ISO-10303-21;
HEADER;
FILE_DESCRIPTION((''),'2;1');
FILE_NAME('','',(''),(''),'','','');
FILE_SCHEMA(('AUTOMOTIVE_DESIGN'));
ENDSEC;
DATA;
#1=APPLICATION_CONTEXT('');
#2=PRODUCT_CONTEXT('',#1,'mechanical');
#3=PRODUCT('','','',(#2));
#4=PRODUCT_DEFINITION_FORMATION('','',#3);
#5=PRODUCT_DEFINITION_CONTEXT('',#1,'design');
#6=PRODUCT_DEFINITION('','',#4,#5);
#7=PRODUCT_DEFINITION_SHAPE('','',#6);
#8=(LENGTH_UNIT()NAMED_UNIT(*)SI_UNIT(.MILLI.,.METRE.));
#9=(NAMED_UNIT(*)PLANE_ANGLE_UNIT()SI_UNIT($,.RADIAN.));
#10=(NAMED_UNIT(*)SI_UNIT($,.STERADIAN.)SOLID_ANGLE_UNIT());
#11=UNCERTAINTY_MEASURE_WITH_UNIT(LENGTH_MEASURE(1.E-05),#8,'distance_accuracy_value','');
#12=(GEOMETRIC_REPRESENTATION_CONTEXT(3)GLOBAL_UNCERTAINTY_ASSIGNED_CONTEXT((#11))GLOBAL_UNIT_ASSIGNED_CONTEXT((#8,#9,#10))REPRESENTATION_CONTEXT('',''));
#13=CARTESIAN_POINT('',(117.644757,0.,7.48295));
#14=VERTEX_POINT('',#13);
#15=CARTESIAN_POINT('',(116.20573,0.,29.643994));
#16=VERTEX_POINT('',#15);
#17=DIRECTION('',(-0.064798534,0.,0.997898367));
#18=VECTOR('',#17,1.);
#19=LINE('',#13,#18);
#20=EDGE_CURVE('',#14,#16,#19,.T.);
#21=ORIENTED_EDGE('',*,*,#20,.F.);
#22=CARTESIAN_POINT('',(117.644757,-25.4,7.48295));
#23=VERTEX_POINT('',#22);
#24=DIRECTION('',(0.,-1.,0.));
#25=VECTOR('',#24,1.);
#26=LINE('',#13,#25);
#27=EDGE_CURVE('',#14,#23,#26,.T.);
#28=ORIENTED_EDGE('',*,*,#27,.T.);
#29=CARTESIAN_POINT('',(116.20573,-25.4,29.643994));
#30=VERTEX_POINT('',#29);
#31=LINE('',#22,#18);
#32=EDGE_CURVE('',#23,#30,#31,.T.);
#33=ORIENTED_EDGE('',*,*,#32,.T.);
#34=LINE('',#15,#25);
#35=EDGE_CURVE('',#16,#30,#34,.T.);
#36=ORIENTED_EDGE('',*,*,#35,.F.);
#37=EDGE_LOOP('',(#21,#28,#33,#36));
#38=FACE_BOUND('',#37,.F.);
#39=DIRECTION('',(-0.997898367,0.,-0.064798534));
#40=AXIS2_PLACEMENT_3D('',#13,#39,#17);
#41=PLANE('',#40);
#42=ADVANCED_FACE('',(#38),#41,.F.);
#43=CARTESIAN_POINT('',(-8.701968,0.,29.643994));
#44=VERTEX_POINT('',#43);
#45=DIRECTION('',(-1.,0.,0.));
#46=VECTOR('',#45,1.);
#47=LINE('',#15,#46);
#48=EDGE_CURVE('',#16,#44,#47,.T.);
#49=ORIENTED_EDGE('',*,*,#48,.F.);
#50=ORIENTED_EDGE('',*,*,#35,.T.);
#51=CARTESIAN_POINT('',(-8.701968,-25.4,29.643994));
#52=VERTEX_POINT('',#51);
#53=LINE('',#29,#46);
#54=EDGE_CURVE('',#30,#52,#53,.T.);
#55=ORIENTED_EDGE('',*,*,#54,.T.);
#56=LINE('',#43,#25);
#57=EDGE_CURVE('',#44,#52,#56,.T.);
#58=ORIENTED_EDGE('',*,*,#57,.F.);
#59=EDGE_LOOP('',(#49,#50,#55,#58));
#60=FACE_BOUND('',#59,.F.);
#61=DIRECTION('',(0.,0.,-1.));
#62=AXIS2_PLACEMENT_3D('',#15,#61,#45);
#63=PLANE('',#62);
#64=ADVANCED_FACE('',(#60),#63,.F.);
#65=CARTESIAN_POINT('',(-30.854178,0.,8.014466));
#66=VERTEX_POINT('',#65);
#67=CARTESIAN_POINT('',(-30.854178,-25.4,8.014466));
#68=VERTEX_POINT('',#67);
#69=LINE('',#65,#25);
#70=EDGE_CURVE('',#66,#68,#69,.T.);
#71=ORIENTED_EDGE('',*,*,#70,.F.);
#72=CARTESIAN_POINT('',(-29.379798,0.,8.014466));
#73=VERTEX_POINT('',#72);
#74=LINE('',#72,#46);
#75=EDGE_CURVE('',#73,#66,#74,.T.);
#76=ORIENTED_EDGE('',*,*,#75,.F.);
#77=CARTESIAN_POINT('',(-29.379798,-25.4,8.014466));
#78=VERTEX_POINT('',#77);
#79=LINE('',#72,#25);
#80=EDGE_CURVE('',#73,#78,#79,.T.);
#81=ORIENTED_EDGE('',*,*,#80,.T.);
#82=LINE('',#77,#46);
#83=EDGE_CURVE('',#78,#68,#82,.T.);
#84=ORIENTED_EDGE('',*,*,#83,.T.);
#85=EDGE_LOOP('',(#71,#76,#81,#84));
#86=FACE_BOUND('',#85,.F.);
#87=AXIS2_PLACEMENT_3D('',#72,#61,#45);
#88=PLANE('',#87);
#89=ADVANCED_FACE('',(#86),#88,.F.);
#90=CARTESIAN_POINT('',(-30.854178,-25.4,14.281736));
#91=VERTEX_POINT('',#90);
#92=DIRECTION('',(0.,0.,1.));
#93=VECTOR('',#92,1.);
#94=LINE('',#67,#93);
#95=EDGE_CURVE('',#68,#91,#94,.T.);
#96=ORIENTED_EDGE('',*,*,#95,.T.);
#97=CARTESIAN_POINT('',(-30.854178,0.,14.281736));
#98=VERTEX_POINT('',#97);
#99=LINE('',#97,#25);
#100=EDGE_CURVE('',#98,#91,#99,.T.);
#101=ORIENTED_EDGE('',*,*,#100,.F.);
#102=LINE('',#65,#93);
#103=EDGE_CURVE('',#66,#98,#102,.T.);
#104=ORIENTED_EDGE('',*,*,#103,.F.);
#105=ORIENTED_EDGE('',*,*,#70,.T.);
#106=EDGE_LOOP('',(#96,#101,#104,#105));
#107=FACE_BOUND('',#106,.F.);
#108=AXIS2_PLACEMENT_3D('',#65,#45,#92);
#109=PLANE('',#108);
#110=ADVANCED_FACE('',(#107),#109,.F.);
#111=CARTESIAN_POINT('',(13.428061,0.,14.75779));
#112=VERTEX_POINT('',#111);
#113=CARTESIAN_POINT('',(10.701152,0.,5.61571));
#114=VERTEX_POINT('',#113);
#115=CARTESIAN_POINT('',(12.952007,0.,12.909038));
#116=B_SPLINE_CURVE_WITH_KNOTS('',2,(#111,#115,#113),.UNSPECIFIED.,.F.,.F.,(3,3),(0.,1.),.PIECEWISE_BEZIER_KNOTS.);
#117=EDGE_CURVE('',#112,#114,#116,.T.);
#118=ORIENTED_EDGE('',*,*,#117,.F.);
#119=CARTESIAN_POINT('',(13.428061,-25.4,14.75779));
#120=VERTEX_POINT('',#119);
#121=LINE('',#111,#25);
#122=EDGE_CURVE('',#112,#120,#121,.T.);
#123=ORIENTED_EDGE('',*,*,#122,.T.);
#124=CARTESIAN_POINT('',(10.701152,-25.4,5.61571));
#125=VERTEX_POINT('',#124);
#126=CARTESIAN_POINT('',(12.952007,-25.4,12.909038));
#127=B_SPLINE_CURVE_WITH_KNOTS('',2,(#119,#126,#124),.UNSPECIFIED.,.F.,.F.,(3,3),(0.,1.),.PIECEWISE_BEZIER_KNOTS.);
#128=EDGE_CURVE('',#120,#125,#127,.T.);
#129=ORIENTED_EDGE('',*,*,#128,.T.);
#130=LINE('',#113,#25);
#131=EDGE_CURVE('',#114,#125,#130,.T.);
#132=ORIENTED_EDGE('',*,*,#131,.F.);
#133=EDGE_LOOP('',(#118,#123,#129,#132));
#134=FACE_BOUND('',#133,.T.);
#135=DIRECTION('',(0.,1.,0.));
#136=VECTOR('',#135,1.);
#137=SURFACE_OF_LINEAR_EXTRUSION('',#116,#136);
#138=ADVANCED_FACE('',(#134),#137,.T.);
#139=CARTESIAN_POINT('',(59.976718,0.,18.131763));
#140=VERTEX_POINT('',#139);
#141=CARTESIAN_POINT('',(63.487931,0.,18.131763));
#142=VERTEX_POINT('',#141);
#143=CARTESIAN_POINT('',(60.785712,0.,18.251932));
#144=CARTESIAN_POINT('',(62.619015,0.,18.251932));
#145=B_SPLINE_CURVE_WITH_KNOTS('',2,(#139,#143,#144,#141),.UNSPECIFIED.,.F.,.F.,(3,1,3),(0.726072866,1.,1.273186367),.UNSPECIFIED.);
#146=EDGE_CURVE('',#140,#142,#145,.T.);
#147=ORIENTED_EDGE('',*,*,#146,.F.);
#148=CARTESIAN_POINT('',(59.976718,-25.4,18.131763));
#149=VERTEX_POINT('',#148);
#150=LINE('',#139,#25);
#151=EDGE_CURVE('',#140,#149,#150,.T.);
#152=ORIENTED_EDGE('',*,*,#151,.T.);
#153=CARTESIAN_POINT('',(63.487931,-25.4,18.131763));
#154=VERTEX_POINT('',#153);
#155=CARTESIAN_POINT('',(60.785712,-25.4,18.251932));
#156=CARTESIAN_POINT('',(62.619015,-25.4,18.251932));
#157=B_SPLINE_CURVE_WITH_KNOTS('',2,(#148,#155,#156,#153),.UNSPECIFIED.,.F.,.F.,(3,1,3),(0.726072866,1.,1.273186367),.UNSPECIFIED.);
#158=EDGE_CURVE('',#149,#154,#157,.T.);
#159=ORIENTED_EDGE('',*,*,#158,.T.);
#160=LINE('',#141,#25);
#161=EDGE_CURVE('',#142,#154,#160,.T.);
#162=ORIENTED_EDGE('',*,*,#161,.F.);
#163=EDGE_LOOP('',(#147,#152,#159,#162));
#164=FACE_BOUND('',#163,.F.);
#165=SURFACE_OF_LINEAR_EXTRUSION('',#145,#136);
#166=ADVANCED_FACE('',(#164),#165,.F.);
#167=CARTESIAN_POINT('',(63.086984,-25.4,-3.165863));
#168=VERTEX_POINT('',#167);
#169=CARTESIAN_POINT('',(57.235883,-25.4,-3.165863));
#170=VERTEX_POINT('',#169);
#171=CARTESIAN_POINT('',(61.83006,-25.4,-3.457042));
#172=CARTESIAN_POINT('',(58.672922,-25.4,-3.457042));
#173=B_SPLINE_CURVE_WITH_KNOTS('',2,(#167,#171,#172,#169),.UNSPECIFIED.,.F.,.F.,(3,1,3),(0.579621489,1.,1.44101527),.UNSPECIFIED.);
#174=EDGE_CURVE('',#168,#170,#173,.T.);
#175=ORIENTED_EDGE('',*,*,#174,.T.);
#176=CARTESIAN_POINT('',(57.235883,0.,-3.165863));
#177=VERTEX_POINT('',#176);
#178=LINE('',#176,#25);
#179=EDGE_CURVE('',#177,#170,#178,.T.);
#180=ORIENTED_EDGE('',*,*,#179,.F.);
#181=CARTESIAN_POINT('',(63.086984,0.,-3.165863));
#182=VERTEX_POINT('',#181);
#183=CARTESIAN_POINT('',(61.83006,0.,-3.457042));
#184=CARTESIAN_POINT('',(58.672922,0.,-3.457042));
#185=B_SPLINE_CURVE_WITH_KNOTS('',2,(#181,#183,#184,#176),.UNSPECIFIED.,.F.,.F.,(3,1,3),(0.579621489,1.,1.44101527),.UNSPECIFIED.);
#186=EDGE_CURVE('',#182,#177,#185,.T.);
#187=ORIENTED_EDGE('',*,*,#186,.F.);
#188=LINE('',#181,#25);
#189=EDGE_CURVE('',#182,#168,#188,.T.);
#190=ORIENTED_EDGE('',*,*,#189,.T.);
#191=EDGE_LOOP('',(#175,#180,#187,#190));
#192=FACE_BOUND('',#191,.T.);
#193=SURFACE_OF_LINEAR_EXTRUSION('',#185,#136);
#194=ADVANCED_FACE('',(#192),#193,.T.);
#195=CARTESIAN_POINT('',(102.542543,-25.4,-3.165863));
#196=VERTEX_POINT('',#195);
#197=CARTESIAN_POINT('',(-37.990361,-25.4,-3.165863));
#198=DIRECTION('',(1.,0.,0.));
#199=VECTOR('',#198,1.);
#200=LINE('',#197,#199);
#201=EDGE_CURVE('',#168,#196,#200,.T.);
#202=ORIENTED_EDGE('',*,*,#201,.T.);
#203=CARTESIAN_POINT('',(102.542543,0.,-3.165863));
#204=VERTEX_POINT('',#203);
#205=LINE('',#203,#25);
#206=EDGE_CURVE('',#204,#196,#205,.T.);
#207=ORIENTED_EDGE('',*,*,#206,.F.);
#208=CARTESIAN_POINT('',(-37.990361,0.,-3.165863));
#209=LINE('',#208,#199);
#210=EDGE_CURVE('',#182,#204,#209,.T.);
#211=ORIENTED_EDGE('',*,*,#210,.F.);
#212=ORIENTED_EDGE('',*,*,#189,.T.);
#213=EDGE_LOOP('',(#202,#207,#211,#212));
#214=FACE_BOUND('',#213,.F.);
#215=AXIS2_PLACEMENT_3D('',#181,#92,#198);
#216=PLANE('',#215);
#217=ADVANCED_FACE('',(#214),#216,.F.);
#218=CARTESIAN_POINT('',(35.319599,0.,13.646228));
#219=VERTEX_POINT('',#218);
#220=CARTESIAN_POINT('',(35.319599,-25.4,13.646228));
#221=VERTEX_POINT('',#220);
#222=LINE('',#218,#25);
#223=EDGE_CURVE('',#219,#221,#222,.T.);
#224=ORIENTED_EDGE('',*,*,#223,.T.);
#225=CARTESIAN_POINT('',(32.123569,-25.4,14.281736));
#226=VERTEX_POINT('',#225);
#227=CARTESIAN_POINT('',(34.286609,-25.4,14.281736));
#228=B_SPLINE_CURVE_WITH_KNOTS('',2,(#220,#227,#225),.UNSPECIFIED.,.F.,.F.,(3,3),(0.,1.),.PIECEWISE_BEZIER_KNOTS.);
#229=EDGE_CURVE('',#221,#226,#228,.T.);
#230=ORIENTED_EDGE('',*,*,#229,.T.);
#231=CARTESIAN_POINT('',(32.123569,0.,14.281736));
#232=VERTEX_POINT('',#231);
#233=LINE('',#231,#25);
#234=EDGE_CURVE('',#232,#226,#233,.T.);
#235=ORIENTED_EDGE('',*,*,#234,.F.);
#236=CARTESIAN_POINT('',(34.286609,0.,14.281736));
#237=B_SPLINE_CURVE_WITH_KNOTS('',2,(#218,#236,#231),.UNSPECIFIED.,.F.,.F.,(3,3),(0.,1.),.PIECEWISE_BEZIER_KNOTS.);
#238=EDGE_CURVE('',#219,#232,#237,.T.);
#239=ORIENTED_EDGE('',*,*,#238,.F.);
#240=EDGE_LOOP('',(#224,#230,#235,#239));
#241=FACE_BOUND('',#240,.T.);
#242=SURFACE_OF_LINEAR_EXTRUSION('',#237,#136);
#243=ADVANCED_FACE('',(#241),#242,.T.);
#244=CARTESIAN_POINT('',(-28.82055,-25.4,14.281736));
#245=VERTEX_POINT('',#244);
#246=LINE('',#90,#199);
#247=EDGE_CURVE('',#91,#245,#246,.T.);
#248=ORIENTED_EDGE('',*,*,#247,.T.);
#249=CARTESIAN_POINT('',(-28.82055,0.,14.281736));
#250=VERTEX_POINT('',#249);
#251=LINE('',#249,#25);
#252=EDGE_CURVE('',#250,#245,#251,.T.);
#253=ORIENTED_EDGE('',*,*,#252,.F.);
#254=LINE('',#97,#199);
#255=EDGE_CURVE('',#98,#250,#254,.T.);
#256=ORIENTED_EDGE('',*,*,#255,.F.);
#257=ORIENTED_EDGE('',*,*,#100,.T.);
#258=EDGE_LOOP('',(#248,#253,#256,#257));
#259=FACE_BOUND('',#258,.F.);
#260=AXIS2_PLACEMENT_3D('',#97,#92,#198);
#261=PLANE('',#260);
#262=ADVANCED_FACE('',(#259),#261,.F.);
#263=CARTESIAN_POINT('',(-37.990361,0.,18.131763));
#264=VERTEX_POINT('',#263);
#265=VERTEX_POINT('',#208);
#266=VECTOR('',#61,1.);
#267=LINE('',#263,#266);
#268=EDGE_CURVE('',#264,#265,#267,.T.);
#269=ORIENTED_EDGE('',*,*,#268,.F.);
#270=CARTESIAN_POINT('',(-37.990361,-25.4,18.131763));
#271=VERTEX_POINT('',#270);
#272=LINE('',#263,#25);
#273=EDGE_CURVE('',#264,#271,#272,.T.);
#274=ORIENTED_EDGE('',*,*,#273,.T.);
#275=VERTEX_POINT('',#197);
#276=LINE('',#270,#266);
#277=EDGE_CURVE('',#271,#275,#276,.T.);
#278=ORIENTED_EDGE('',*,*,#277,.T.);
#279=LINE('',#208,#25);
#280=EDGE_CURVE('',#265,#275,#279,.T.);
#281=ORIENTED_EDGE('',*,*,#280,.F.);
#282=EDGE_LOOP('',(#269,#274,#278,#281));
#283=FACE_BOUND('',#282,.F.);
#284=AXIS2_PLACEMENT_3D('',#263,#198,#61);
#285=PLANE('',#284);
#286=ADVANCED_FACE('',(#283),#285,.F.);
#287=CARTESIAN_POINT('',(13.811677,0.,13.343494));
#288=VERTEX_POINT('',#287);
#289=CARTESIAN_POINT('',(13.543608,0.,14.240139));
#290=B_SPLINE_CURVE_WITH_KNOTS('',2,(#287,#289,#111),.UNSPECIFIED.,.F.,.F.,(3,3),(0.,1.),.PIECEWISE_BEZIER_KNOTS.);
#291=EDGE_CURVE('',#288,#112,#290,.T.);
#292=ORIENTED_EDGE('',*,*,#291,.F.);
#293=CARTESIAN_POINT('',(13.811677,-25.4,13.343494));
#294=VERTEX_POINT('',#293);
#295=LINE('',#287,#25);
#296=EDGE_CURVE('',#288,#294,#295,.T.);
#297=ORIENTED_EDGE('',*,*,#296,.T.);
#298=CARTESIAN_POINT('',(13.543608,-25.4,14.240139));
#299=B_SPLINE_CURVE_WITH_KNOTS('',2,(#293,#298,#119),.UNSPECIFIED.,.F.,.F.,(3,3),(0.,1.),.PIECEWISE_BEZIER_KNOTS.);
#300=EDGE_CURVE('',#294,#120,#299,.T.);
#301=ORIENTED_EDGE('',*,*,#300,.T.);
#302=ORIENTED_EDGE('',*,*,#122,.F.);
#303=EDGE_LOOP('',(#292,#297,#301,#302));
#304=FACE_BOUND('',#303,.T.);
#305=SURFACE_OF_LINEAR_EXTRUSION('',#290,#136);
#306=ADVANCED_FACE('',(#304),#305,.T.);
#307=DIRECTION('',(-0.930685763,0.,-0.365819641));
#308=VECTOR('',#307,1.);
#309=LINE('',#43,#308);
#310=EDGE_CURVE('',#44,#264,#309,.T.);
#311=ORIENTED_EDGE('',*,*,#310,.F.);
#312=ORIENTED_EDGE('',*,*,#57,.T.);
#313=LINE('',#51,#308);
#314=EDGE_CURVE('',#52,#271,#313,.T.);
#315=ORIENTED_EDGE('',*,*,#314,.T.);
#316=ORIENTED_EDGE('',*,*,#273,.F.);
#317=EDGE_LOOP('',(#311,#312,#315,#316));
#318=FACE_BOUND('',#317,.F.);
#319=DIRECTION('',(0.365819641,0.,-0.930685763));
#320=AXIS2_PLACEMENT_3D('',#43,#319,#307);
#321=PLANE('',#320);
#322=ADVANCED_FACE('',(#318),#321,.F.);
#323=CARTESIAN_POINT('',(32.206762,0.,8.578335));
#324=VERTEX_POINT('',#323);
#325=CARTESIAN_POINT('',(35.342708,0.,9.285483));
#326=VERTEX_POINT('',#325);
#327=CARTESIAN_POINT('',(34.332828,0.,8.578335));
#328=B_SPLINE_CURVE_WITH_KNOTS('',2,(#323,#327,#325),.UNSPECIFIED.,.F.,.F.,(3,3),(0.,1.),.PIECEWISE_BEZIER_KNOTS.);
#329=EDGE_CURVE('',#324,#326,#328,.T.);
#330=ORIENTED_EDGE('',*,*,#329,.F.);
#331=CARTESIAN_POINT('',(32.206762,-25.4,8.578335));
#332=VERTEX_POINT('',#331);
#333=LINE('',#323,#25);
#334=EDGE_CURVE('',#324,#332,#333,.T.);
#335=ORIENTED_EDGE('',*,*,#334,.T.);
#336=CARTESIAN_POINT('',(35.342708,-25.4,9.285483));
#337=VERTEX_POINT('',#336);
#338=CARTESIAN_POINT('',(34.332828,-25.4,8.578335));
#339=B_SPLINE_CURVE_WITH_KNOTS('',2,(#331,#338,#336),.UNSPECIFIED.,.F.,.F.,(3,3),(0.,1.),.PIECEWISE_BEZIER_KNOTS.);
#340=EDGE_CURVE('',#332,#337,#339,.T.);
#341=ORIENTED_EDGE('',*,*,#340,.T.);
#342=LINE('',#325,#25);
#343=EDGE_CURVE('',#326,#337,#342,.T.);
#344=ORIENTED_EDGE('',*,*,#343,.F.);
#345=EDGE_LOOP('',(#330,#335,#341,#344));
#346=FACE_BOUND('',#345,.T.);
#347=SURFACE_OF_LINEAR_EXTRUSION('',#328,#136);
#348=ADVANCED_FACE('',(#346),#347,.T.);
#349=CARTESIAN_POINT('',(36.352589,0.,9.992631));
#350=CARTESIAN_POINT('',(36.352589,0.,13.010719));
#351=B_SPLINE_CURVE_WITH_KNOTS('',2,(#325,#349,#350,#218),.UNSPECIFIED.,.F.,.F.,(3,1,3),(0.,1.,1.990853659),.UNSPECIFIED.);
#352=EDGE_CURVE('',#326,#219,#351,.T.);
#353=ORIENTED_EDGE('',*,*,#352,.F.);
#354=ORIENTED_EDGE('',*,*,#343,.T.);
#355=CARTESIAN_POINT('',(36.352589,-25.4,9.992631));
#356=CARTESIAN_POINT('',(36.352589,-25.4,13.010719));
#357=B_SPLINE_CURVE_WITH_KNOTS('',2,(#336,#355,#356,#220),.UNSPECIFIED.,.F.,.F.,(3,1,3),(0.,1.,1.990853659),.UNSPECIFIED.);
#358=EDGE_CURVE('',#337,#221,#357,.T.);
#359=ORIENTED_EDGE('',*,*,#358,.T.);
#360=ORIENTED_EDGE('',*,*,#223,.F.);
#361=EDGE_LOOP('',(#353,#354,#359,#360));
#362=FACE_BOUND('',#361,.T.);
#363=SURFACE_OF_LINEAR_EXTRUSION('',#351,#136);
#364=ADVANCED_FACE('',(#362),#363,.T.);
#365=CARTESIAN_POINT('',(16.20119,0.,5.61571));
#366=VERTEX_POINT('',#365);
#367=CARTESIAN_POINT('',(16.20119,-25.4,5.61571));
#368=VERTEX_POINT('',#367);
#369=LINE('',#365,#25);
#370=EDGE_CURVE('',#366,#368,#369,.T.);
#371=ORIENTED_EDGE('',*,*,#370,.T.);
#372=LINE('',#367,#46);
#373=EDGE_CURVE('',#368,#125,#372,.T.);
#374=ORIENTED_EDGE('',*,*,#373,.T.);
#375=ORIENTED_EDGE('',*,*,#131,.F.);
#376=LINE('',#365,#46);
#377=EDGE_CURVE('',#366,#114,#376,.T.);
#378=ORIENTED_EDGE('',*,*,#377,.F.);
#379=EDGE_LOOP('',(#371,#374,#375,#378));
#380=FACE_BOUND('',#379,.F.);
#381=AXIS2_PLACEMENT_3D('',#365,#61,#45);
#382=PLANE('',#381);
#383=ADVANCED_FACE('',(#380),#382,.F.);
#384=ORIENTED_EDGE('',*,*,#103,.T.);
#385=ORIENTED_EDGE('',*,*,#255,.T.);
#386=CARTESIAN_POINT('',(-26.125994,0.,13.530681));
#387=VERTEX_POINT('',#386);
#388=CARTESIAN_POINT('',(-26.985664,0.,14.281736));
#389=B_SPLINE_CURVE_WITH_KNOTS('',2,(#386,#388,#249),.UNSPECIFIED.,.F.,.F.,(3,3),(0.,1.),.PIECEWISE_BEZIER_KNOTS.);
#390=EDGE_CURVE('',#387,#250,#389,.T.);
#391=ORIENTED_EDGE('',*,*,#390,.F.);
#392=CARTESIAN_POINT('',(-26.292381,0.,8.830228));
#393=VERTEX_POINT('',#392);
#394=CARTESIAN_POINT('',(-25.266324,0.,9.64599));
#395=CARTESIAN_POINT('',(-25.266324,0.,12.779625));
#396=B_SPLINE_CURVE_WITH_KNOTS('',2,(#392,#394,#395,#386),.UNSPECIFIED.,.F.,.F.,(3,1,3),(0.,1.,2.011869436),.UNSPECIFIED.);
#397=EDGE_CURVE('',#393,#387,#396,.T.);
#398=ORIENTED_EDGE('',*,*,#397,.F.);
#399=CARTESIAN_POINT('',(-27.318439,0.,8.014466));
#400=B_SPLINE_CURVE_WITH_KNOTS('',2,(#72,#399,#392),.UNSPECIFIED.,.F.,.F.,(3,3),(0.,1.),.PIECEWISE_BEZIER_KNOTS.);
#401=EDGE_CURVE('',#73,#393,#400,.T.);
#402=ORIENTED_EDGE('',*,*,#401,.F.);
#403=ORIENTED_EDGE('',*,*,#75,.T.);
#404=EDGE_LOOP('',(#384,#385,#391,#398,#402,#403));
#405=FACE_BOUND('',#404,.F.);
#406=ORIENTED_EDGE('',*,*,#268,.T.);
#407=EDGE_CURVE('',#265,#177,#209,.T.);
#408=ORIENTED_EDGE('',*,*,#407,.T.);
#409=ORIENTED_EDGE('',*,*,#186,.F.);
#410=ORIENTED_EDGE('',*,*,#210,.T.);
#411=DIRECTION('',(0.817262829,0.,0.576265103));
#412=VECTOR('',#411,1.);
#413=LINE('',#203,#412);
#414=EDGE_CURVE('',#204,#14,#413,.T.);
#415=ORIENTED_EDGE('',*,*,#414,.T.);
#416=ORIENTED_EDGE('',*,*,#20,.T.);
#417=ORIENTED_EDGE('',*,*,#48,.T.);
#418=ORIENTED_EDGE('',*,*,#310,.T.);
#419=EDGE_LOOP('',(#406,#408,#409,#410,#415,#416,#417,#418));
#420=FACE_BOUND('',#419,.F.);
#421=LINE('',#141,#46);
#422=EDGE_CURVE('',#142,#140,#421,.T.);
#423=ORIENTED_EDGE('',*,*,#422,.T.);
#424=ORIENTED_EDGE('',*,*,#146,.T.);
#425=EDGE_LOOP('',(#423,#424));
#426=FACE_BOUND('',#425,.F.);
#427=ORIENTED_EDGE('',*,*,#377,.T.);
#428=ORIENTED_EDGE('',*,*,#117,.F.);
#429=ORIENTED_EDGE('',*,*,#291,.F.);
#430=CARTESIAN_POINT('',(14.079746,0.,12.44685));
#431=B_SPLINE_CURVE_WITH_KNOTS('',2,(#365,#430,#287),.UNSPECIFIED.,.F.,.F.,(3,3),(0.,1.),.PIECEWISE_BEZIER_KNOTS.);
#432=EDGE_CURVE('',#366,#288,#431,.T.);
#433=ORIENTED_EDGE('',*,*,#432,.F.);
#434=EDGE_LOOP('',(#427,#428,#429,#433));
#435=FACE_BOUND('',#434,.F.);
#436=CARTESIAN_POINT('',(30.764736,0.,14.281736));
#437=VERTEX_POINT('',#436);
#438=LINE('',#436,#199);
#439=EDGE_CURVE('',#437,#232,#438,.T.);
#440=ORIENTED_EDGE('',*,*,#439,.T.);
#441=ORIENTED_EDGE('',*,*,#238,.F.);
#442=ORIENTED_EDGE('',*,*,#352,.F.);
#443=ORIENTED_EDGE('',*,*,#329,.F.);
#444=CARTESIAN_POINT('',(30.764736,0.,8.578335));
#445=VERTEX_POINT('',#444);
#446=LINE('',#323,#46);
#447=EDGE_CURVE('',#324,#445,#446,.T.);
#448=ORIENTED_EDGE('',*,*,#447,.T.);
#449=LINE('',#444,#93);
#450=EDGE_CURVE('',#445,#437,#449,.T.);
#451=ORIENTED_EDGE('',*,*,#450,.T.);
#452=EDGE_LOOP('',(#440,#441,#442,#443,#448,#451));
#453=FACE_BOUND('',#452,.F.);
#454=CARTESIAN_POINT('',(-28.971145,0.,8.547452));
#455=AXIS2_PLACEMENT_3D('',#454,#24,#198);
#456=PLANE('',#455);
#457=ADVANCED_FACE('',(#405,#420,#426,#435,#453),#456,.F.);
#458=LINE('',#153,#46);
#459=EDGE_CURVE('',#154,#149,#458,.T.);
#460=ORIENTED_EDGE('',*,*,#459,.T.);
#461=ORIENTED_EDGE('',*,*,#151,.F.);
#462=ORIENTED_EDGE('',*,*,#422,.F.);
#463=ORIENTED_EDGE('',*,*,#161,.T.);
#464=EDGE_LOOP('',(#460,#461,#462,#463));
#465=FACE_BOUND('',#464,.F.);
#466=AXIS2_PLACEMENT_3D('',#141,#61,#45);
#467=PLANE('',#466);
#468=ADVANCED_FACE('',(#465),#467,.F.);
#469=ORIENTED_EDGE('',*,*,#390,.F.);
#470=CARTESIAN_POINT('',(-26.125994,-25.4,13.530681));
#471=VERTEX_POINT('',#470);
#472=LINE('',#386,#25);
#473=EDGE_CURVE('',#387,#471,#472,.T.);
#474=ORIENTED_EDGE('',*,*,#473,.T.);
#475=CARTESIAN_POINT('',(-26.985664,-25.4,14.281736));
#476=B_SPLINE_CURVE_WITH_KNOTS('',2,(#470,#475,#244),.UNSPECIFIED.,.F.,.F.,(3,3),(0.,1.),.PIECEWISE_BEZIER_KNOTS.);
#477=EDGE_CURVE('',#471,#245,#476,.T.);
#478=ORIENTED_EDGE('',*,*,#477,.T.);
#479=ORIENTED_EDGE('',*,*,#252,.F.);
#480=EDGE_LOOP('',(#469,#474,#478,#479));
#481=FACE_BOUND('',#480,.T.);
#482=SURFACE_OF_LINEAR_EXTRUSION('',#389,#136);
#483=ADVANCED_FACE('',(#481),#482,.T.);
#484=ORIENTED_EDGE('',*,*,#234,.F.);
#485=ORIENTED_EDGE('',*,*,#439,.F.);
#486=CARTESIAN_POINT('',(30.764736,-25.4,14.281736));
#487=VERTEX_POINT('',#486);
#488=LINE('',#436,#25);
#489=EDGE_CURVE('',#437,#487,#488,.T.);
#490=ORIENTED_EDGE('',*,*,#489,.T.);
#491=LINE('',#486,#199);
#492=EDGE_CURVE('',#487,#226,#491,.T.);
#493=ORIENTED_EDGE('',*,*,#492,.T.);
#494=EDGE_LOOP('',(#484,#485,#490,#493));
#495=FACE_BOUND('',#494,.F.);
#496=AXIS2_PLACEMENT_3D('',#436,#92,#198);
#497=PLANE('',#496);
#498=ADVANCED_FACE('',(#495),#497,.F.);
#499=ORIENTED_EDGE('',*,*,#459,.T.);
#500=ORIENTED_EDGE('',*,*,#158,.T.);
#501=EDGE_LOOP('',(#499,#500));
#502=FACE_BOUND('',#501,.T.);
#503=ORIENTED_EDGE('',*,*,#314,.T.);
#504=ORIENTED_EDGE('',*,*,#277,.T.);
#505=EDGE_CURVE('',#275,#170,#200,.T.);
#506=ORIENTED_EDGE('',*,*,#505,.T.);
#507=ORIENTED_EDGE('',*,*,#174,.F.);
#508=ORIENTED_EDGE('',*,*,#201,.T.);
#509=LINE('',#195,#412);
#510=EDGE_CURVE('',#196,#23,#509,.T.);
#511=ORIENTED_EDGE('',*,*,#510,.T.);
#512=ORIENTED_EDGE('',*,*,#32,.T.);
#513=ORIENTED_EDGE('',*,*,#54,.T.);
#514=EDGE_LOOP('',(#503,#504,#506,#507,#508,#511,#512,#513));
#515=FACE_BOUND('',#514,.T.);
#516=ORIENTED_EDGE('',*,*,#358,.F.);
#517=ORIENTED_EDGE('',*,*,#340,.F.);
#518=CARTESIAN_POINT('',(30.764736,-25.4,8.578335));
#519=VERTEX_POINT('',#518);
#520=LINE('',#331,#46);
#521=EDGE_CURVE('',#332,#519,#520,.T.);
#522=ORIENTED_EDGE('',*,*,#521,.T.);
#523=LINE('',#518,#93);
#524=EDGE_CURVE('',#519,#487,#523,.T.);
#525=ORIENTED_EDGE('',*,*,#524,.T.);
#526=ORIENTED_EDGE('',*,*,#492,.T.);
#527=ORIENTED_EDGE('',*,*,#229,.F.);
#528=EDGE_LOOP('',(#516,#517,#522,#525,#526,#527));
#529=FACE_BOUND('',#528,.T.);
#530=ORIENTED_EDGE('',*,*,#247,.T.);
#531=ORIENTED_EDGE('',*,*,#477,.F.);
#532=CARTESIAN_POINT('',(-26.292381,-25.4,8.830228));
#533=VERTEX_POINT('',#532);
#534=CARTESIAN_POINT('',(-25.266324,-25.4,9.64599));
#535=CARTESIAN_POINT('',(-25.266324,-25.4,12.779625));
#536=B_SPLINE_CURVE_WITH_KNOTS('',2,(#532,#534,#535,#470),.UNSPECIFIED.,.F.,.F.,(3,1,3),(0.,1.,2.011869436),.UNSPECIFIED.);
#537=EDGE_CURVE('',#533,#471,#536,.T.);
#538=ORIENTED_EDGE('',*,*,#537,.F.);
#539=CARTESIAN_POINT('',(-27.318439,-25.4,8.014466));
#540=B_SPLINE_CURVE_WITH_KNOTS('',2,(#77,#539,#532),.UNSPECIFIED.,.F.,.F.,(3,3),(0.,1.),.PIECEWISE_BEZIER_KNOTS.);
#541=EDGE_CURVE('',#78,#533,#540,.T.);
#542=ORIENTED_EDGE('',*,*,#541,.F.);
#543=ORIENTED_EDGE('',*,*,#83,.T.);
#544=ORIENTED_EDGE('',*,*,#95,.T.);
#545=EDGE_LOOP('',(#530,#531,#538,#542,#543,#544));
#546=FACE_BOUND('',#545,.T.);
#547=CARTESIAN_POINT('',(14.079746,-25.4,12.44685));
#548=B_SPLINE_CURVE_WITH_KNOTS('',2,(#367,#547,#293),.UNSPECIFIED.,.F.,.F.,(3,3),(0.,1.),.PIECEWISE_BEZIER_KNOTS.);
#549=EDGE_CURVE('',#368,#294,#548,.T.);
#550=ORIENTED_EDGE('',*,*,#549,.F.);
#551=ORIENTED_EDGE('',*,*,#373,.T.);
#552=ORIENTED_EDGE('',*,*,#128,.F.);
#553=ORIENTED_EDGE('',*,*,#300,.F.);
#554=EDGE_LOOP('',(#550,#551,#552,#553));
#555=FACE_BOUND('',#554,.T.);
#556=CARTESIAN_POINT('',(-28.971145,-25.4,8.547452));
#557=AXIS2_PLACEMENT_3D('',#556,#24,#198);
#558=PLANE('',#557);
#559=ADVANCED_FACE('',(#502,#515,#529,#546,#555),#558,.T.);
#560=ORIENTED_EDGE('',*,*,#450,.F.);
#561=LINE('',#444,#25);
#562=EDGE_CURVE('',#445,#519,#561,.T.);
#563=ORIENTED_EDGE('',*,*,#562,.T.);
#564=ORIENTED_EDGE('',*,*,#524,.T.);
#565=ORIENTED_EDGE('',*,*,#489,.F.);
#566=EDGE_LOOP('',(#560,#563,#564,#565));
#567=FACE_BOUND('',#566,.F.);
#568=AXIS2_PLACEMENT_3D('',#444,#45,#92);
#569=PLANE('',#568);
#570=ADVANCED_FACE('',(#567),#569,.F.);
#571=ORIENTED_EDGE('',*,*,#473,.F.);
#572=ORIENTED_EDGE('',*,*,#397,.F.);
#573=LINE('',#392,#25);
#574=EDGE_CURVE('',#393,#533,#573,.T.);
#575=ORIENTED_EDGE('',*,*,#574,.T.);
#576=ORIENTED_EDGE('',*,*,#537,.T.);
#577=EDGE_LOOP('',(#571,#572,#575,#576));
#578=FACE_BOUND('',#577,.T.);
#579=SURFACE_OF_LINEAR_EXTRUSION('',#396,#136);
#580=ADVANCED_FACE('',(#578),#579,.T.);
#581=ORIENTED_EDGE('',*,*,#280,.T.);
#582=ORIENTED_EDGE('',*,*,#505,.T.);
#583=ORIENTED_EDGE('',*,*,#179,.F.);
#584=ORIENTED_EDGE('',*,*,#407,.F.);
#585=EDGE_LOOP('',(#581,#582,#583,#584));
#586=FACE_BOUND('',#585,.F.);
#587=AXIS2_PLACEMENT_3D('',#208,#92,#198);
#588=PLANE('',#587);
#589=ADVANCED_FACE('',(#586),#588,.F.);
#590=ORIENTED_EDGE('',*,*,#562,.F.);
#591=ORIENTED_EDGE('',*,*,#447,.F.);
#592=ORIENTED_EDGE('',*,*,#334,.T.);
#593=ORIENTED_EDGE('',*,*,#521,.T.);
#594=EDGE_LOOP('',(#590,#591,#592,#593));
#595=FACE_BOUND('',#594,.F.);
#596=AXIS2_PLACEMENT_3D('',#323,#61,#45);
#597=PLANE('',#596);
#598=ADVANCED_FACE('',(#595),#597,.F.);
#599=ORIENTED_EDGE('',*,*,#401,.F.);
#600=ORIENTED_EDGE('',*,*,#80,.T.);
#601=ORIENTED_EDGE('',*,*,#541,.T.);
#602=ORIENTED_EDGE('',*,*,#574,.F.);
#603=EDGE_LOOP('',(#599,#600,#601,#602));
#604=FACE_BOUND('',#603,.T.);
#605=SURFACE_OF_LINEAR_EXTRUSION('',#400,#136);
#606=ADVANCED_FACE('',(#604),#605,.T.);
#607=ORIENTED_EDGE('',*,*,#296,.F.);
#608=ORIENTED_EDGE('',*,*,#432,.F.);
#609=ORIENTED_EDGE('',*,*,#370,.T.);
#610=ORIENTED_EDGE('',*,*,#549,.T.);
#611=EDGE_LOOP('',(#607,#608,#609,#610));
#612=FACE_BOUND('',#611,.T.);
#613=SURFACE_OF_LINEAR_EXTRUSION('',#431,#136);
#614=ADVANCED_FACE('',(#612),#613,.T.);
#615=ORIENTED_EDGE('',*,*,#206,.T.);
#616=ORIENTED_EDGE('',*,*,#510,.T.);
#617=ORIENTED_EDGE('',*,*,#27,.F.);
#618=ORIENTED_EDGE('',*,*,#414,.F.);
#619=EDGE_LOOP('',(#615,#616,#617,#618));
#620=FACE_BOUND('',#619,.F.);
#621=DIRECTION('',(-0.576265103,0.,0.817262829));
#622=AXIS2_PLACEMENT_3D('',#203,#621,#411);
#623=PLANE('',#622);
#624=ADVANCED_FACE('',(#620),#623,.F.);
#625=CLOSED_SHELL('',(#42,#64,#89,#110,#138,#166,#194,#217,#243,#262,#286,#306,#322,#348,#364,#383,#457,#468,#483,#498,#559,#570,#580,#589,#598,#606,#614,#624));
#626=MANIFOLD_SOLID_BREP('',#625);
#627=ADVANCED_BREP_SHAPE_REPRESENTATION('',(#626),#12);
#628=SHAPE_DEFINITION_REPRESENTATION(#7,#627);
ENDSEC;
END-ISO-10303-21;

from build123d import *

# Parameters (mm, degrees)
F0_W     = 8.3609821595
F0_H     = 9.1143487112
F0_W_2   = 4.4786023839
F0_H_2   = 21.1173728506
F1_DEPTH = 25.4


with BuildPart() as f1:
    # F0 (on Front) → F1 (new body)
    with BuildSketch(Plane.XZ):
        with BuildLine():
            Line((-19.2826222628, 18.131762743), (-37.9903614521, 18.131762743))
            Line((-37.9903614521, 18.131762743), (-37.9903614521, -3.1658634543))
            Line((-37.9903614521, -3.1658634543), (-35.3327800581, -3.1658634543))
            Line((-35.3327800581, -3.1658634543), (-35.3327800581, 17.9515093963))
            Line((-35.3327800581, 17.9515093963), (-28.5894561384, 17.9515093963))
            add(Edge.make_bspline(
                [(-28.5894561384, 17.9515093963), (-24.7440514084, 17.9515093963), (-22.745088012, 16.296876111)],
                knots=[0, 0, 0, 1, 1, 1], degree=2))
            add(Edge.make_bspline(
                [(-22.745088012, 16.296876111), (-20.7461246157, 14.6422428257), (-20.7461246157, 11.3653294199)],
                knots=[0, 0, 0, 1, 1, 1], degree=2))
            add(Edge.make_bspline(
                [(-20.7461246157, 11.3653294199), (-20.7461246157, 7.9543814742), (-22.8768116115, 6.1495370667)],
                knots=[0, 0, 0, 1, 1, 1], degree=2))
            add(Edge.make_bspline(
                [(-22.8768116115, 6.1495370667), (-25.0074986074, 4.3446926591), (-28.9360971898, 4.3446926591)],
                knots=[0, 0, 0, 1, 1, 1], degree=2))
            Line((-28.9360971898, 4.3446926591), (-30.8541776742, 4.3446926591))
            Line((-30.8541776742, 4.3446926591), (-30.8541776742, -3.1658634543))
            Line((-30.8541776742, -3.1658634543), (-19.2826222628, -3.1658634543))
            Line((-19.2826222628, -3.1658634543), (-19.2826222628, 18.131762743))
        make_face()
        with BuildLine():
            Line((-8.7019680068, 29.6439938247), (-37.9903614521, 18.131762743))
            Line((-37.9903614521, 18.131762743), (-19.2826222628, 18.131762743))
            Line((-19.2826222628, 18.131762743), (2.0150034688, 18.131762743))
            Line((2.0150034688, 18.131762743), (24.7516594827, 18.131762743))
            Line((24.7516594827, 18.131762743), (44.3224497139, 18.131762743))
            Line((44.3224497139, 18.131762743), (52.0932041109, 18.131762743))
            Line((52.0932041109, 18.131762743), (59.9767177003, 18.131762743))
            add(Edge.make_bspline(
                [(59.9767177003, 18.131762743), (60.7857124915, 18.2519316408), (61.7036049274, 18.2519316408)],
                knots=[0.7260728655, 0.7260728655, 0.7260728655, 1, 1, 1], degree=2))
            add(Edge.make_bspline(
                [(61.7036049274, 18.2519316408), (62.6190151517, 18.2519316408), (63.4879314572, 18.131762743)],
                knots=[0, 0, 0, 0.5563486403, 0.5563486403, 0.5563486403], degree=2))
            Line((63.4879314572, 18.131762743), (69.9371621013, 18.131762743))
            Line((69.9371621013, 18.131762743), (86.3420888782, 18.131762743))
            Line((86.3420888782, 18.131762743), (102.5425426617, 18.131762743))
            Line((102.5425426617, 18.131762743), (116.2057295442, 29.6439938247))
            Line((116.2057295442, 29.6439938247), (84.2592939734, 29.6439938247))
            Line((84.2592939734, 29.6439938247), (-8.7019680068, 29.6439938247))
        make_face()
        Polygon((2.0150034688, 18.131762743), (-19.2826222628, 18.131762743), (-19.2826222628, -3.1658634543), (-16.7574415844, -3.1658634543), (-16.7574415844, 17.9515093963), (-12.2788392004, 17.9515093963), (-12.2788392004, 9.6737210891), (-3.9178570409, 9.6737210891), (-3.9178570409, 17.9515093963), (0.546879701, 17.9515093963), (0.546879701, -3.1658634543), (2.0150034688, -3.1658634543), align=None)
        with BuildLine():
            Line((-35.3327800581, 17.9515093963), (-35.3327800581, -3.1658634543))
            Line((-35.3327800581, -3.1658634543), (-30.8541776742, -3.1658634543))
            Line((-30.8541776742, -3.1658634543), (-30.8541776742, 4.3446926591))
            Line((-30.8541776742, 4.3446926591), (-28.9360971898, 4.3446926591))
            add(Edge.make_bspline(
                [(-22.8768116115, 6.1495370667), (-25.0074986074, 4.3446926591), (-28.9360971898, 4.3446926591)],
                knots=[0, 0, 0, 1, 1, 1], degree=2))
            add(Edge.make_bspline(
                [(-20.7461246157, 11.3653294199), (-20.7461246157, 7.9543814742), (-22.8768116115, 6.1495370667)],
                knots=[0, 0, 0, 1, 1, 1], degree=2))
            add(Edge.make_bspline(
                [(-22.745088012, 16.296876111), (-20.7461246157, 14.6422428257), (-20.7461246157, 11.3653294199)],
                knots=[0, 0, 0, 1, 1, 1], degree=2))
            add(Edge.make_bspline(
                [(-28.5894561384, 17.9515093963), (-24.7440514084, 17.9515093963), (-22.745088012, 16.296876111)],
                knots=[0, 0, 0, 1, 1, 1], degree=2))
            Line((-28.5894561384, 17.9515093963), (-35.3327800581, 17.9515093963))
        make_face()
        with BuildLine():
            Line((-29.3797977356, 8.0144659231), (-30.8541776742, 8.0144659231))
            Line((-30.8541776742, 8.0144659231), (-30.8541776742, 14.2817361322))
            Line((-30.8541776742, 14.2817361322), (-28.8205501727, 14.2817361322))
            add(Edge.make_bspline(
                [(-26.1259937332, 13.5306805209), (-26.9856635407, 14.2817361322), (-28.8205501727, 14.2817361322)],
                knots=[0, 0, 0, 1, 1, 1], degree=2))
            add(Edge.make_bspline(
                [(-25.2663239258, 11.2035635959), (-25.2663239258, 12.7796249096), (-26.1259937332, 13.5306805209)],
                knots=[0, 0, 0, 1, 1, 1], degree=2))
            add(Edge.make_bspline(
                [(-26.2923814379, 8.8302278641), (-25.2663239258, 9.645989805), (-25.2663239258, 11.2035635959)],
                knots=[0, 0, 0, 1, 1, 1], degree=2))
            add(Edge.make_bspline(
                [(-29.3797977356, 8.0144659231), (-27.31843895, 8.0144659231), (-26.2923814379, 8.8302278641)],
                knots=[0, 0, 0, 1, 1, 1], degree=2))
        make_face(mode=Mode.SUBTRACT)
        Polygon((24.7516594827, 18.131762743), (2.0150034688, 18.131762743), (2.0150034688, -3.1658634543), (3.218326737, -3.1658634543), (10.6734202822, 18.0393251293), (16.1457270135, 18.0393251293), (23.6285518428, -3.1658634543), (24.7516594827, -3.1658634543), align=None)
        Polygon((117.6447570324, 7.4829496443), (116.2057295442, 29.6439938247), (102.5425426617, 18.131762743), (102.5425426617, -3.1658634543), align=None)
        with BuildLine():
            Line((44.3224497139, 18.131762743), (24.7516594827, 18.131762743))
            Line((24.7516594827, 18.131762743), (24.7516594827, -3.1658634543))
            Line((24.7516594827, -3.1658634543), (26.2861332368, -3.1658634543))
            Line((26.2861332368, -3.1658634543), (26.2861332368, 17.9515093963))
            Line((26.2861332368, 17.9515093963), (32.4378564288, 17.9515093963))
            add(Edge.make_bspline(
                [(32.4378564288, 17.9515093963), (36.7454492274, 17.9515093963), (38.8091189533, 16.384691844)],
                knots=[0, 0, 0, 1, 1, 1], degree=2))
            add(Edge.make_bspline(
                [(38.8091189533, 16.384691844), (40.8727886792, 14.8178742917), (40.8727886792, 11.6241547383)],
                knots=[0, 0, 0, 1, 1, 1], degree=2))
            add(Edge.make_bspline(
                [(40.8727886792, 11.6241547383), (40.8727886792, 9.7615368221), (39.8490421075, 8.310266287)],
                knots=[0, 0, 0, 1, 1, 1], degree=2))
            add(Edge.make_bspline(
                [(39.8490421075, 8.310266287), (38.8252955357, 6.8589957518), (36.9441900968, 6.0363009899)],
                knots=[0, 0, 0, 1, 1, 1], degree=2))
            add(Edge.make_bspline(
                [(36.9441900968, 6.0363009899), (41.7139709639, -1.086017146), (43.1559977377, -3.1658634543)],
                knots=[0, 0, 0, 1, 1, 1], degree=2))
            Line((43.1559977377, -3.1658634543), (44.3224497139, -3.1658634543))
            Line((44.3224497139, -3.1658634543), (44.3224497139, 18.131762743))
        make_face()
        Polygon((-16.7574415844, 17.9515093963), (-16.7574415844, -3.1658634543), (-12.2788392004, -3.1658634543), (-12.2788392004, 5.9484852568), (-3.9178570409, 5.9484852568), (-3.9178570409, -3.1658634543), (0.546879701, -3.1658634543), (0.546879701, 17.9515093963), (-3.9178570409, 17.9515093963), (-3.9178570409, 9.6737210891), (-12.2788392004, 9.6737210891), (-12.2788392004, 17.9515093963), align=None)
        Polygon((102.5425426617, -3.1658634543), (102.5425426617, 18.131762743), (86.3420888782, 18.131762743), (86.3420888782, -3.1658634543), (88.4642940946, -3.1658634543), (88.4642940946, 17.9515093963), (100.6244621773, 17.9515093963), (100.6244621773, 14.2817361322), (92.9428964785, 14.2817361322), (92.9428964785, 9.645989805), (100.0929458985, 9.645989805), (100.0929458985, 5.976216541), (92.9428964785, 5.976216541), (92.9428964785, 0.5316410938), (100.6244621773, 0.5316410938), (100.6244621773, -3.1658634543), align=None)
        Polygon((52.0932041109, 18.131762743), (44.3224497139, 18.131762743), (44.3224497139, -3.1658634543), (45.8135791317, -3.1658634543), (45.8135791317, 17.9515093963), (50.2921815156, 17.9515093963), (50.2921815156, -3.1658634543), (52.0932041109, -3.1658634543), align=None)
        Polygon((10.6734202822, 18.0393251293), (3.218326737, -3.1658634543), (8.0435701724, -3.1658634543), (9.5734126791, 1.8627427311), (17.2734659007, 1.8627427311), (18.8033084075, -3.1658634543), (23.6285518428, -3.1658634543), (16.1457270135, 18.0393251293), align=None)
        with BuildLine():
            add(Edge.make_bspline(
                [(16.2011895817, 5.6157098475), (14.0797463472, 12.4468495002), (13.8116772675, 13.3434943531)],
                knots=[0, 0, 0, 1, 1, 1], degree=2))
            Line((16.2011895817, 5.6157098475), (10.7011515663, 5.6157098475))
            add(Edge.make_bspline(
                [(13.4280611706, 14.7577898428), (12.95200746, 12.9090375687), (10.7011515663, 5.6157098475)],
                knots=[0, 0, 0, 1, 1, 1], degree=2))
            add(Edge.make_bspline(
                [(13.8116772675, 13.3434943531), (13.5436081877, 14.2401392061), (13.4280611706, 14.7577898428)],
                knots=[0, 0, 0, 1, 1, 1], degree=2))
        make_face(mode=Mode.SUBTRACT)
        with Locations((-8.0983481207, 1.3913109013)):
            Rectangle(F0_W, F0_H)
        Polygon((86.3420888782, -3.1658634543), (86.3420888782, 18.131762743), (69.9371621013, 18.131762743), (69.9371621013, -3.1658634543), (71.8994737189, -3.1658634543), (71.8994737189, 17.9515093963), (84.0596418016, 17.9515093963), (84.0596418016, 14.2817361322), (76.3780761028, 14.2817361322), (76.3780761028, 9.645989805), (83.5281255228, 9.645989805), (83.5281255228, 5.976216541), (76.3780761028, 5.976216541), (76.3780761028, 0.5316410938), (84.0596418016, 0.5316410938), (84.0596418016, -3.1658634543), align=None)
        with BuildLine():
            Line((59.9767177003, 18.131762743), (52.0932041109, 18.131762743))
            Line((52.0932041109, 18.131762743), (52.0932041109, -3.1658634543))
            Line((52.0932041109, -3.1658634543), (57.2358830465, -3.1658634543))
            add(Edge.make_bspline(
                [(57.2358830465, -3.1658634543), (55.6650956404, -2.8475842694), (54.3085958311, -2.1814028684)],
                knots=[0.477766543, 0.477766543, 0.477766543, 1, 1, 1], degree=2))
            Line((54.3085958311, -2.1814028684), (54.3085958311, 1.9782897483))
            add(Edge.make_bspline(
                [(54.3085958311, 1.9782897483), (56.4439047076, 1.0215604464), (57.9252174672, 0.6333224689)],
                knots=[0, 0, 0, 1, 1, 1], degree=2))
            add(Edge.make_bspline(
                [(57.9252174672, 0.6333224689), (59.4065302268, 0.2450844913), (60.6359504891, 0.2450844913)],
                knots=[0, 0, 0, 1, 1, 1], degree=2))
            add(Edge.make_bspline(
                [(60.6359504891, 0.2450844913), (62.105708547, 0.2450844913), (62.8937392038, 0.8066429946)],
                knots=[0, 0, 0, 1, 1, 1], degree=2))
            add(Edge.make_bspline(
                [(62.8937392038, 0.8066429946), (63.6817698606, 1.3682014978), (63.6817698606, 2.482074743)],
                knots=[0, 0, 0, 1, 1, 1], degree=2))
            add(Edge.make_bspline(
                [(63.6817698606, 2.482074743), (63.6817698606, 3.1014067548), (63.3351288092, 3.5867042267)],
                knots=[0, 0, 0, 1, 1, 1], degree=2))
            add(Edge.make_bspline(
                [(63.3351288092, 3.5867042267), (62.9884877578, 4.0720016987), (62.3160041182, 4.5180131848)],
                knots=[0, 0, 0, 1, 1, 1], degree=2))
            add(Edge.make_bspline(
                [(62.3160041182, 4.5180131848), (61.6435204785, 4.9640246709), (59.5775398122, 5.9484852568)],
                knots=[0, 0, 0, 1, 1, 1], degree=2))
            add(Edge.make_bspline(
                [(59.5775398122, 5.9484852568), (57.6455936858, 6.8589957518), (56.6773096822, 7.6955561558)],
                knots=[0, 0, 0, 1, 1, 1], degree=2))
            add(Edge.make_bspline(
                [(56.6773096822, 7.6955561558), (55.7090256787, 8.5321165599), (55.131290593, 9.645989805)],
                knots=[0, 0, 0, 1, 1, 1], degree=2))
            add(Edge.make_bspline(
                [(55.131290593, 9.645989805), (54.5535555074, 10.7598630501), (54.5535555074, 12.2434867501)],
                knots=[0, 0, 0, 1, 1, 1], degree=2))
            add(Edge.make_bspline(
                [(54.5535555074, 12.2434867501), (54.5535555074, 15.048968326), (56.453148469, 16.6504499834)],
                knots=[0, 0, 0, 1, 1, 1], degree=2))
            add(Edge.make_bspline(
                [(56.453148469, 16.6504499834), (57.8323913738, 17.8132423594), (59.9767177003, 18.131762743)],
                knots=[0, 0, 0, 0.7260728655, 0.7260728655, 0.7260728655], degree=2))
        make_face()
        with BuildLine():
            Line((26.2861332368, 17.9515093963), (26.2861332368, -3.1658634543))
            Line((26.2861332368, -3.1658634543), (30.7647356207, -3.1658634543))
            Line((30.7647356207, -3.1658634543), (30.7647356207, 4.9362933868))
            Line((30.7647356207, 4.9362933868), (33.1450041736, 4.9362933868))
            Line((33.1450041736, 4.9362933868), (38.1874760011, -3.1658634543))
            Line((38.1874760011, -3.1658634543), (43.1559977377, -3.1658634543))
            add(Edge.make_bspline(
                [(36.9441900968, 6.0363009899), (41.7139709639, -1.086017146), (43.1559977377, -3.1658634543)],
                knots=[0, 0, 0, 1, 1, 1], degree=2))
            add(Edge.make_bspline(
                [(39.8490421075, 8.310266287), (38.8252955357, 6.8589957518), (36.9441900968, 6.0363009899)],
                knots=[0, 0, 0, 1, 1, 1], degree=2))
            add(Edge.make_bspline(
                [(40.8727886792, 11.6241547383), (40.8727886792, 9.7615368221), (39.8490421075, 8.310266287)],
                knots=[0, 0, 0, 1, 1, 1], degree=2))
            add(Edge.make_bspline(
                [(38.8091189533, 16.384691844), (40.8727886792, 14.8178742917), (40.8727886792, 11.6241547383)],
                knots=[0, 0, 0, 1, 1, 1], degree=2))
            add(Edge.make_bspline(
                [(32.4378564288, 17.9515093963), (36.7454492274, 17.9515093963), (38.8091189533, 16.384691844)],
                knots=[0, 0, 0, 1, 1, 1], degree=2))
            Line((32.4378564288, 17.9515093963), (26.2861332368, 17.9515093963))
        make_face()
        with BuildLine():
            Line((32.2067623945, 8.5783353667), (30.7647356207, 8.5783353667))
            Line((30.7647356207, 8.5783353667), (30.7647356207, 14.2817361322))
            Line((30.7647356207, 14.2817361322), (32.1235685422, 14.2817361322))
            add(Edge.make_bspline(
                [(35.319599036, 13.646227538), (34.2866087028, 14.2817361322), (32.1235685422, 14.2817361322)],
                knots=[0, 0, 0, 1, 1, 1], degree=2))
            add(Edge.make_bspline(
                [(36.3525893691, 11.5086077211), (36.3525893691, 13.0107189438), (35.319599036, 13.646227538)],
                knots=[0, 0, 0, 1, 1, 1], degree=2))
            add(Edge.make_bspline(
                [(35.3427084394, 9.2854831115), (36.3525893691, 9.9926308564), (36.3525893691, 11.5086077211)],
                knots=[0, 0, 0, 1, 1, 1], degree=2))
            add(Edge.make_bspline(
                [(32.2067623945, 8.5783353667), (34.3328275097, 8.5783353667), (35.3427084394, 9.2854831115)],
                knots=[0, 0, 0, 1, 1, 1], degree=2))
        make_face(mode=Mode.SUBTRACT)
        Polygon((9.5734126791, 1.8627427311), (8.0435701724, -3.1658634543), (18.8033084075, -3.1658634543), (17.2734659007, 1.8627427311), align=None)
        Polygon((88.4642940946, -3.1658634543), (100.6244621773, -3.1658634543), (100.6244621773, 0.5316410938), (92.9428964785, 0.5316410938), (92.9428964785, 5.976216541), (100.0929458985, 5.976216541), (100.0929458985, 9.645989805), (92.9428964785, 9.645989805), (92.9428964785, 14.2817361322), (100.6244621773, 14.2817361322), (100.6244621773, 17.9515093963), (88.4642940946, 17.9515093963), align=None)
        with BuildLine():
            Line((69.9371621013, -3.1658634543), (69.9371621013, 18.131762743))
            Line((69.9371621013, 18.131762743), (63.4879314572, 18.131762743))
            add(Edge.make_bspline(
                [(63.4879314572, 18.131762743), (64.180834922, 18.0359359699), (64.8441728529, 17.8636936633)],
                knots=[0.5563486403, 0.5563486403, 0.5563486403, 1, 1, 1], degree=2))
            add(Edge.make_bspline(
                [(64.8441728529, 17.8636936633), (66.3393512546, 17.4754556857), (67.9708751365, 16.7683079409)],
                knots=[0, 0, 0, 1, 1, 1], degree=2))
            Line((67.9708751365, 16.7683079409), (66.5288483627, 13.2834099042))
            add(Edge.make_bspline(
                [(66.5288483627, 13.2834099042), (64.8372400319, 13.976692007), (63.7326105482, 14.2516939078)],
                knots=[0, 0, 0, 1, 1, 1], degree=2))
            add(Edge.make_bspline(
                [(63.7326105482, 14.2516939078), (62.6279810644, 14.5266958086), (61.5603266261, 14.5266958086)],
                knots=[0, 0, 0, 1, 1, 1], degree=2))
            add(Edge.make_bspline(
                [(61.5603266261, 14.5266958086), (60.2893094377, 14.5266958086), (59.609892977, 13.9350950808)],
                knots=[0, 0, 0, 1, 1, 1], degree=2))
            add(Edge.make_bspline(
                [(59.609892977, 13.9350950808), (58.9304765163, 13.3434943531), (58.9304765163, 12.391386932)],
                knots=[0, 0, 0, 1, 1, 1], degree=2))
            add(Edge.make_bspline(
                [(58.9304765163, 12.391386932), (58.9304765163, 11.7997862043), (59.205478417, 11.3583965989)],
                knots=[0, 0, 0, 1, 1, 1], degree=2))
            add(Edge.make_bspline(
                [(59.205478417, 11.3583965989), (59.4804803178, 10.9170069934), (60.0790138665, 10.5056596124)],
                knots=[0, 0, 0, 1, 1, 1], degree=2))
            add(Edge.make_bspline(
                [(60.0790138665, 10.5056596124), (60.6775474153, 10.0943122315), (62.9145376669, 9.0266577932)],
                knots=[0, 0, 0, 1, 1, 1], degree=2))
            add(Edge.make_bspline(
                [(62.9145376669, 9.0266577932), (65.8771631861, 7.6077404228), (66.9748598488, 6.1865121121)],
                knots=[0, 0, 0, 1, 1, 1], degree=2))
            add(Edge.make_bspline(
                [(66.9748598488, 6.1865121121), (68.0725565116, 4.7652838014), (68.0725565116, 2.6993031352)],
                knots=[0, 0, 0, 1, 1, 1], degree=2))
            add(Edge.make_bspline(
                [(68.0725565116, 2.6993031352), (68.0725565116, -0.161641009), (66.0135086663, -1.8093414732)],
                knots=[0, 0, 0, 1, 1, 1], degree=2))
            add(Edge.make_bspline(
                [(66.0135086663, -1.8093414732), (64.8200402885, -2.7643840697), (63.0869836467, -3.1658634543)],
                knots=[0, 0, 0, 0.5796214889, 0.5796214889, 0.5796214889], degree=2))
            Line((63.0869836467, -3.1658634543), (69.9371621013, -3.1658634543))
        make_face()
        with BuildLine():
            Line((63.4879314572, 18.131762743), (59.9767177003, 18.131762743))
            add(Edge.make_bspline(
                [(56.453148469, 16.6504499834), (57.8323913738, 17.8132423594), (59.9767177003, 18.131762743)],
                knots=[0, 0, 0, 0.7260728655, 0.7260728655, 0.7260728655], degree=2))
            add(Edge.make_bspline(
                [(54.5535555074, 12.2434867501), (54.5535555074, 15.048968326), (56.453148469, 16.6504499834)],
                knots=[0, 0, 0, 1, 1, 1], degree=2))
            add(Edge.make_bspline(
                [(55.131290593, 9.645989805), (54.5535555074, 10.7598630501), (54.5535555074, 12.2434867501)],
                knots=[0, 0, 0, 1, 1, 1], degree=2))
            add(Edge.make_bspline(
                [(56.6773096822, 7.6955561558), (55.7090256787, 8.5321165599), (55.131290593, 9.645989805)],
                knots=[0, 0, 0, 1, 1, 1], degree=2))
            add(Edge.make_bspline(
                [(59.5775398122, 5.9484852568), (57.6455936858, 6.8589957518), (56.6773096822, 7.6955561558)],
                knots=[0, 0, 0, 1, 1, 1], degree=2))
            add(Edge.make_bspline(
                [(62.3160041182, 4.5180131848), (61.6435204785, 4.9640246709), (59.5775398122, 5.9484852568)],
                knots=[0, 0, 0, 1, 1, 1], degree=2))
            add(Edge.make_bspline(
                [(63.3351288092, 3.5867042267), (62.9884877578, 4.0720016987), (62.3160041182, 4.5180131848)],
                knots=[0, 0, 0, 1, 1, 1], degree=2))
            add(Edge.make_bspline(
                [(63.6817698606, 2.482074743), (63.6817698606, 3.1014067548), (63.3351288092, 3.5867042267)],
                knots=[0, 0, 0, 1, 1, 1], degree=2))
            add(Edge.make_bspline(
                [(62.8937392038, 0.8066429946), (63.6817698606, 1.3682014978), (63.6817698606, 2.482074743)],
                knots=[0, 0, 0, 1, 1, 1], degree=2))
            add(Edge.make_bspline(
                [(60.6359504891, 0.2450844913), (62.105708547, 0.2450844913), (62.8937392038, 0.8066429946)],
                knots=[0, 0, 0, 1, 1, 1], degree=2))
            add(Edge.make_bspline(
                [(57.9252174672, 0.6333224689), (59.4065302268, 0.2450844913), (60.6359504891, 0.2450844913)],
                knots=[0, 0, 0, 1, 1, 1], degree=2))
            add(Edge.make_bspline(
                [(54.3085958311, 1.9782897483), (56.4439047076, 1.0215604464), (57.9252174672, 0.6333224689)],
                knots=[0, 0, 0, 1, 1, 1], degree=2))
            Line((54.3085958311, 1.9782897483), (54.3085958311, -2.1814028684))
            add(Edge.make_bspline(
                [(57.2358830465, -3.1658634543), (55.6650956404, -2.8475842694), (54.3085958311, -2.1814028684)],
                knots=[0.477766543, 0.477766543, 0.477766543, 1, 1, 1], degree=2))
            Line((57.2358830465, -3.1658634543), (63.0869836467, -3.1658634543))
            add(Edge.make_bspline(
                [(66.0135086663, -1.8093414732), (64.8200402885, -2.7643840697), (63.0869836467, -3.1658634543)],
                knots=[0, 0, 0, 0.5796214889, 0.5796214889, 0.5796214889], degree=2))
            add(Edge.make_bspline(
                [(68.0725565116, 2.6993031352), (68.0725565116, -0.161641009), (66.0135086663, -1.8093414732)],
                knots=[0, 0, 0, 1, 1, 1], degree=2))
            add(Edge.make_bspline(
                [(66.9748598488, 6.1865121121), (68.0725565116, 4.7652838014), (68.0725565116, 2.6993031352)],
                knots=[0, 0, 0, 1, 1, 1], degree=2))
            add(Edge.make_bspline(
                [(62.9145376669, 9.0266577932), (65.8771631861, 7.6077404228), (66.9748598488, 6.1865121121)],
                knots=[0, 0, 0, 1, 1, 1], degree=2))
            add(Edge.make_bspline(
                [(60.0790138665, 10.5056596124), (60.6775474153, 10.0943122315), (62.9145376669, 9.0266577932)],
                knots=[0, 0, 0, 1, 1, 1], degree=2))
            add(Edge.make_bspline(
                [(59.205478417, 11.3583965989), (59.4804803178, 10.9170069934), (60.0790138665, 10.5056596124)],
                knots=[0, 0, 0, 1, 1, 1], degree=2))
            add(Edge.make_bspline(
                [(58.9304765163, 12.391386932), (58.9304765163, 11.7997862043), (59.205478417, 11.3583965989)],
                knots=[0, 0, 0, 1, 1, 1], degree=2))
            add(Edge.make_bspline(
                [(59.609892977, 13.9350950808), (58.9304765163, 13.3434943531), (58.9304765163, 12.391386932)],
                knots=[0, 0, 0, 1, 1, 1], degree=2))
            add(Edge.make_bspline(
                [(61.5603266261, 14.5266958086), (60.2893094377, 14.5266958086), (59.609892977, 13.9350950808)],
                knots=[0, 0, 0, 1, 1, 1], degree=2))
            add(Edge.make_bspline(
                [(63.7326105482, 14.2516939078), (62.6279810644, 14.5266958086), (61.5603266261, 14.5266958086)],
                knots=[0, 0, 0, 1, 1, 1], degree=2))
            add(Edge.make_bspline(
                [(66.5288483627, 13.2834099042), (64.8372400319, 13.976692007), (63.7326105482, 14.2516939078)],
                knots=[0, 0, 0, 1, 1, 1], degree=2))
            Line((66.5288483627, 13.2834099042), (67.9708751365, 16.7683079409))
            add(Edge.make_bspline(
                [(64.8441728529, 17.8636936633), (66.3393512546, 17.4754556857), (67.9708751365, 16.7683079409)],
                knots=[0, 0, 0, 1, 1, 1], degree=2))
            add(Edge.make_bspline(
                [(63.4879314572, 18.131762743), (64.180834922, 18.0359359699), (64.8441728529, 17.8636936633)],
                knots=[0.5563486403, 0.5563486403, 0.5563486403, 1, 1, 1], degree=2))
        make_face()
        with Locations((48.0528803237, 7.392822971)):
            Rectangle(F0_W_2, F0_H_2)
        Polygon((30.7647356207, 4.9362933868), (30.7647356207, -3.1658634543), (38.1874760011, -3.1658634543), (33.1450041736, 4.9362933868), align=None)
        Polygon((71.8994737189, -3.1658634543), (84.0596418016, -3.1658634543), (84.0596418016, 0.5316410938), (76.3780761028, 0.5316410938), (76.3780761028, 5.976216541), (83.5281255228, 5.976216541), (83.5281255228, 9.645989805), (76.3780761028, 9.645989805), (76.3780761028, 14.2817361322), (84.0596418016, 14.2817361322), (84.0596418016, 17.9515093963), (71.8994737189, 17.9515093963), align=None)
        with BuildLine():
            Line((63.0869836467, -3.1658634543), (57.2358830465, -3.1658634543))
            add(Edge.make_bspline(
                [(60.2893094377, -3.4570419375), (58.6729217092, -3.4570419375), (57.2358830465, -3.1658634543)],
                knots=[0, 0, 0, 0.477766543, 0.477766543, 0.477766543], degree=2))
            add(Edge.make_bspline(
                [(63.0869836467, -3.1658634543), (61.8300603191, -3.4570419375), (60.2893094377, -3.4570419375)],
                knots=[0.5796214889, 0.5796214889, 0.5796214889, 1, 1, 1], degree=2))
        make_face()
    extrude(amount=F1_DEPTH)


solid = f1.part
